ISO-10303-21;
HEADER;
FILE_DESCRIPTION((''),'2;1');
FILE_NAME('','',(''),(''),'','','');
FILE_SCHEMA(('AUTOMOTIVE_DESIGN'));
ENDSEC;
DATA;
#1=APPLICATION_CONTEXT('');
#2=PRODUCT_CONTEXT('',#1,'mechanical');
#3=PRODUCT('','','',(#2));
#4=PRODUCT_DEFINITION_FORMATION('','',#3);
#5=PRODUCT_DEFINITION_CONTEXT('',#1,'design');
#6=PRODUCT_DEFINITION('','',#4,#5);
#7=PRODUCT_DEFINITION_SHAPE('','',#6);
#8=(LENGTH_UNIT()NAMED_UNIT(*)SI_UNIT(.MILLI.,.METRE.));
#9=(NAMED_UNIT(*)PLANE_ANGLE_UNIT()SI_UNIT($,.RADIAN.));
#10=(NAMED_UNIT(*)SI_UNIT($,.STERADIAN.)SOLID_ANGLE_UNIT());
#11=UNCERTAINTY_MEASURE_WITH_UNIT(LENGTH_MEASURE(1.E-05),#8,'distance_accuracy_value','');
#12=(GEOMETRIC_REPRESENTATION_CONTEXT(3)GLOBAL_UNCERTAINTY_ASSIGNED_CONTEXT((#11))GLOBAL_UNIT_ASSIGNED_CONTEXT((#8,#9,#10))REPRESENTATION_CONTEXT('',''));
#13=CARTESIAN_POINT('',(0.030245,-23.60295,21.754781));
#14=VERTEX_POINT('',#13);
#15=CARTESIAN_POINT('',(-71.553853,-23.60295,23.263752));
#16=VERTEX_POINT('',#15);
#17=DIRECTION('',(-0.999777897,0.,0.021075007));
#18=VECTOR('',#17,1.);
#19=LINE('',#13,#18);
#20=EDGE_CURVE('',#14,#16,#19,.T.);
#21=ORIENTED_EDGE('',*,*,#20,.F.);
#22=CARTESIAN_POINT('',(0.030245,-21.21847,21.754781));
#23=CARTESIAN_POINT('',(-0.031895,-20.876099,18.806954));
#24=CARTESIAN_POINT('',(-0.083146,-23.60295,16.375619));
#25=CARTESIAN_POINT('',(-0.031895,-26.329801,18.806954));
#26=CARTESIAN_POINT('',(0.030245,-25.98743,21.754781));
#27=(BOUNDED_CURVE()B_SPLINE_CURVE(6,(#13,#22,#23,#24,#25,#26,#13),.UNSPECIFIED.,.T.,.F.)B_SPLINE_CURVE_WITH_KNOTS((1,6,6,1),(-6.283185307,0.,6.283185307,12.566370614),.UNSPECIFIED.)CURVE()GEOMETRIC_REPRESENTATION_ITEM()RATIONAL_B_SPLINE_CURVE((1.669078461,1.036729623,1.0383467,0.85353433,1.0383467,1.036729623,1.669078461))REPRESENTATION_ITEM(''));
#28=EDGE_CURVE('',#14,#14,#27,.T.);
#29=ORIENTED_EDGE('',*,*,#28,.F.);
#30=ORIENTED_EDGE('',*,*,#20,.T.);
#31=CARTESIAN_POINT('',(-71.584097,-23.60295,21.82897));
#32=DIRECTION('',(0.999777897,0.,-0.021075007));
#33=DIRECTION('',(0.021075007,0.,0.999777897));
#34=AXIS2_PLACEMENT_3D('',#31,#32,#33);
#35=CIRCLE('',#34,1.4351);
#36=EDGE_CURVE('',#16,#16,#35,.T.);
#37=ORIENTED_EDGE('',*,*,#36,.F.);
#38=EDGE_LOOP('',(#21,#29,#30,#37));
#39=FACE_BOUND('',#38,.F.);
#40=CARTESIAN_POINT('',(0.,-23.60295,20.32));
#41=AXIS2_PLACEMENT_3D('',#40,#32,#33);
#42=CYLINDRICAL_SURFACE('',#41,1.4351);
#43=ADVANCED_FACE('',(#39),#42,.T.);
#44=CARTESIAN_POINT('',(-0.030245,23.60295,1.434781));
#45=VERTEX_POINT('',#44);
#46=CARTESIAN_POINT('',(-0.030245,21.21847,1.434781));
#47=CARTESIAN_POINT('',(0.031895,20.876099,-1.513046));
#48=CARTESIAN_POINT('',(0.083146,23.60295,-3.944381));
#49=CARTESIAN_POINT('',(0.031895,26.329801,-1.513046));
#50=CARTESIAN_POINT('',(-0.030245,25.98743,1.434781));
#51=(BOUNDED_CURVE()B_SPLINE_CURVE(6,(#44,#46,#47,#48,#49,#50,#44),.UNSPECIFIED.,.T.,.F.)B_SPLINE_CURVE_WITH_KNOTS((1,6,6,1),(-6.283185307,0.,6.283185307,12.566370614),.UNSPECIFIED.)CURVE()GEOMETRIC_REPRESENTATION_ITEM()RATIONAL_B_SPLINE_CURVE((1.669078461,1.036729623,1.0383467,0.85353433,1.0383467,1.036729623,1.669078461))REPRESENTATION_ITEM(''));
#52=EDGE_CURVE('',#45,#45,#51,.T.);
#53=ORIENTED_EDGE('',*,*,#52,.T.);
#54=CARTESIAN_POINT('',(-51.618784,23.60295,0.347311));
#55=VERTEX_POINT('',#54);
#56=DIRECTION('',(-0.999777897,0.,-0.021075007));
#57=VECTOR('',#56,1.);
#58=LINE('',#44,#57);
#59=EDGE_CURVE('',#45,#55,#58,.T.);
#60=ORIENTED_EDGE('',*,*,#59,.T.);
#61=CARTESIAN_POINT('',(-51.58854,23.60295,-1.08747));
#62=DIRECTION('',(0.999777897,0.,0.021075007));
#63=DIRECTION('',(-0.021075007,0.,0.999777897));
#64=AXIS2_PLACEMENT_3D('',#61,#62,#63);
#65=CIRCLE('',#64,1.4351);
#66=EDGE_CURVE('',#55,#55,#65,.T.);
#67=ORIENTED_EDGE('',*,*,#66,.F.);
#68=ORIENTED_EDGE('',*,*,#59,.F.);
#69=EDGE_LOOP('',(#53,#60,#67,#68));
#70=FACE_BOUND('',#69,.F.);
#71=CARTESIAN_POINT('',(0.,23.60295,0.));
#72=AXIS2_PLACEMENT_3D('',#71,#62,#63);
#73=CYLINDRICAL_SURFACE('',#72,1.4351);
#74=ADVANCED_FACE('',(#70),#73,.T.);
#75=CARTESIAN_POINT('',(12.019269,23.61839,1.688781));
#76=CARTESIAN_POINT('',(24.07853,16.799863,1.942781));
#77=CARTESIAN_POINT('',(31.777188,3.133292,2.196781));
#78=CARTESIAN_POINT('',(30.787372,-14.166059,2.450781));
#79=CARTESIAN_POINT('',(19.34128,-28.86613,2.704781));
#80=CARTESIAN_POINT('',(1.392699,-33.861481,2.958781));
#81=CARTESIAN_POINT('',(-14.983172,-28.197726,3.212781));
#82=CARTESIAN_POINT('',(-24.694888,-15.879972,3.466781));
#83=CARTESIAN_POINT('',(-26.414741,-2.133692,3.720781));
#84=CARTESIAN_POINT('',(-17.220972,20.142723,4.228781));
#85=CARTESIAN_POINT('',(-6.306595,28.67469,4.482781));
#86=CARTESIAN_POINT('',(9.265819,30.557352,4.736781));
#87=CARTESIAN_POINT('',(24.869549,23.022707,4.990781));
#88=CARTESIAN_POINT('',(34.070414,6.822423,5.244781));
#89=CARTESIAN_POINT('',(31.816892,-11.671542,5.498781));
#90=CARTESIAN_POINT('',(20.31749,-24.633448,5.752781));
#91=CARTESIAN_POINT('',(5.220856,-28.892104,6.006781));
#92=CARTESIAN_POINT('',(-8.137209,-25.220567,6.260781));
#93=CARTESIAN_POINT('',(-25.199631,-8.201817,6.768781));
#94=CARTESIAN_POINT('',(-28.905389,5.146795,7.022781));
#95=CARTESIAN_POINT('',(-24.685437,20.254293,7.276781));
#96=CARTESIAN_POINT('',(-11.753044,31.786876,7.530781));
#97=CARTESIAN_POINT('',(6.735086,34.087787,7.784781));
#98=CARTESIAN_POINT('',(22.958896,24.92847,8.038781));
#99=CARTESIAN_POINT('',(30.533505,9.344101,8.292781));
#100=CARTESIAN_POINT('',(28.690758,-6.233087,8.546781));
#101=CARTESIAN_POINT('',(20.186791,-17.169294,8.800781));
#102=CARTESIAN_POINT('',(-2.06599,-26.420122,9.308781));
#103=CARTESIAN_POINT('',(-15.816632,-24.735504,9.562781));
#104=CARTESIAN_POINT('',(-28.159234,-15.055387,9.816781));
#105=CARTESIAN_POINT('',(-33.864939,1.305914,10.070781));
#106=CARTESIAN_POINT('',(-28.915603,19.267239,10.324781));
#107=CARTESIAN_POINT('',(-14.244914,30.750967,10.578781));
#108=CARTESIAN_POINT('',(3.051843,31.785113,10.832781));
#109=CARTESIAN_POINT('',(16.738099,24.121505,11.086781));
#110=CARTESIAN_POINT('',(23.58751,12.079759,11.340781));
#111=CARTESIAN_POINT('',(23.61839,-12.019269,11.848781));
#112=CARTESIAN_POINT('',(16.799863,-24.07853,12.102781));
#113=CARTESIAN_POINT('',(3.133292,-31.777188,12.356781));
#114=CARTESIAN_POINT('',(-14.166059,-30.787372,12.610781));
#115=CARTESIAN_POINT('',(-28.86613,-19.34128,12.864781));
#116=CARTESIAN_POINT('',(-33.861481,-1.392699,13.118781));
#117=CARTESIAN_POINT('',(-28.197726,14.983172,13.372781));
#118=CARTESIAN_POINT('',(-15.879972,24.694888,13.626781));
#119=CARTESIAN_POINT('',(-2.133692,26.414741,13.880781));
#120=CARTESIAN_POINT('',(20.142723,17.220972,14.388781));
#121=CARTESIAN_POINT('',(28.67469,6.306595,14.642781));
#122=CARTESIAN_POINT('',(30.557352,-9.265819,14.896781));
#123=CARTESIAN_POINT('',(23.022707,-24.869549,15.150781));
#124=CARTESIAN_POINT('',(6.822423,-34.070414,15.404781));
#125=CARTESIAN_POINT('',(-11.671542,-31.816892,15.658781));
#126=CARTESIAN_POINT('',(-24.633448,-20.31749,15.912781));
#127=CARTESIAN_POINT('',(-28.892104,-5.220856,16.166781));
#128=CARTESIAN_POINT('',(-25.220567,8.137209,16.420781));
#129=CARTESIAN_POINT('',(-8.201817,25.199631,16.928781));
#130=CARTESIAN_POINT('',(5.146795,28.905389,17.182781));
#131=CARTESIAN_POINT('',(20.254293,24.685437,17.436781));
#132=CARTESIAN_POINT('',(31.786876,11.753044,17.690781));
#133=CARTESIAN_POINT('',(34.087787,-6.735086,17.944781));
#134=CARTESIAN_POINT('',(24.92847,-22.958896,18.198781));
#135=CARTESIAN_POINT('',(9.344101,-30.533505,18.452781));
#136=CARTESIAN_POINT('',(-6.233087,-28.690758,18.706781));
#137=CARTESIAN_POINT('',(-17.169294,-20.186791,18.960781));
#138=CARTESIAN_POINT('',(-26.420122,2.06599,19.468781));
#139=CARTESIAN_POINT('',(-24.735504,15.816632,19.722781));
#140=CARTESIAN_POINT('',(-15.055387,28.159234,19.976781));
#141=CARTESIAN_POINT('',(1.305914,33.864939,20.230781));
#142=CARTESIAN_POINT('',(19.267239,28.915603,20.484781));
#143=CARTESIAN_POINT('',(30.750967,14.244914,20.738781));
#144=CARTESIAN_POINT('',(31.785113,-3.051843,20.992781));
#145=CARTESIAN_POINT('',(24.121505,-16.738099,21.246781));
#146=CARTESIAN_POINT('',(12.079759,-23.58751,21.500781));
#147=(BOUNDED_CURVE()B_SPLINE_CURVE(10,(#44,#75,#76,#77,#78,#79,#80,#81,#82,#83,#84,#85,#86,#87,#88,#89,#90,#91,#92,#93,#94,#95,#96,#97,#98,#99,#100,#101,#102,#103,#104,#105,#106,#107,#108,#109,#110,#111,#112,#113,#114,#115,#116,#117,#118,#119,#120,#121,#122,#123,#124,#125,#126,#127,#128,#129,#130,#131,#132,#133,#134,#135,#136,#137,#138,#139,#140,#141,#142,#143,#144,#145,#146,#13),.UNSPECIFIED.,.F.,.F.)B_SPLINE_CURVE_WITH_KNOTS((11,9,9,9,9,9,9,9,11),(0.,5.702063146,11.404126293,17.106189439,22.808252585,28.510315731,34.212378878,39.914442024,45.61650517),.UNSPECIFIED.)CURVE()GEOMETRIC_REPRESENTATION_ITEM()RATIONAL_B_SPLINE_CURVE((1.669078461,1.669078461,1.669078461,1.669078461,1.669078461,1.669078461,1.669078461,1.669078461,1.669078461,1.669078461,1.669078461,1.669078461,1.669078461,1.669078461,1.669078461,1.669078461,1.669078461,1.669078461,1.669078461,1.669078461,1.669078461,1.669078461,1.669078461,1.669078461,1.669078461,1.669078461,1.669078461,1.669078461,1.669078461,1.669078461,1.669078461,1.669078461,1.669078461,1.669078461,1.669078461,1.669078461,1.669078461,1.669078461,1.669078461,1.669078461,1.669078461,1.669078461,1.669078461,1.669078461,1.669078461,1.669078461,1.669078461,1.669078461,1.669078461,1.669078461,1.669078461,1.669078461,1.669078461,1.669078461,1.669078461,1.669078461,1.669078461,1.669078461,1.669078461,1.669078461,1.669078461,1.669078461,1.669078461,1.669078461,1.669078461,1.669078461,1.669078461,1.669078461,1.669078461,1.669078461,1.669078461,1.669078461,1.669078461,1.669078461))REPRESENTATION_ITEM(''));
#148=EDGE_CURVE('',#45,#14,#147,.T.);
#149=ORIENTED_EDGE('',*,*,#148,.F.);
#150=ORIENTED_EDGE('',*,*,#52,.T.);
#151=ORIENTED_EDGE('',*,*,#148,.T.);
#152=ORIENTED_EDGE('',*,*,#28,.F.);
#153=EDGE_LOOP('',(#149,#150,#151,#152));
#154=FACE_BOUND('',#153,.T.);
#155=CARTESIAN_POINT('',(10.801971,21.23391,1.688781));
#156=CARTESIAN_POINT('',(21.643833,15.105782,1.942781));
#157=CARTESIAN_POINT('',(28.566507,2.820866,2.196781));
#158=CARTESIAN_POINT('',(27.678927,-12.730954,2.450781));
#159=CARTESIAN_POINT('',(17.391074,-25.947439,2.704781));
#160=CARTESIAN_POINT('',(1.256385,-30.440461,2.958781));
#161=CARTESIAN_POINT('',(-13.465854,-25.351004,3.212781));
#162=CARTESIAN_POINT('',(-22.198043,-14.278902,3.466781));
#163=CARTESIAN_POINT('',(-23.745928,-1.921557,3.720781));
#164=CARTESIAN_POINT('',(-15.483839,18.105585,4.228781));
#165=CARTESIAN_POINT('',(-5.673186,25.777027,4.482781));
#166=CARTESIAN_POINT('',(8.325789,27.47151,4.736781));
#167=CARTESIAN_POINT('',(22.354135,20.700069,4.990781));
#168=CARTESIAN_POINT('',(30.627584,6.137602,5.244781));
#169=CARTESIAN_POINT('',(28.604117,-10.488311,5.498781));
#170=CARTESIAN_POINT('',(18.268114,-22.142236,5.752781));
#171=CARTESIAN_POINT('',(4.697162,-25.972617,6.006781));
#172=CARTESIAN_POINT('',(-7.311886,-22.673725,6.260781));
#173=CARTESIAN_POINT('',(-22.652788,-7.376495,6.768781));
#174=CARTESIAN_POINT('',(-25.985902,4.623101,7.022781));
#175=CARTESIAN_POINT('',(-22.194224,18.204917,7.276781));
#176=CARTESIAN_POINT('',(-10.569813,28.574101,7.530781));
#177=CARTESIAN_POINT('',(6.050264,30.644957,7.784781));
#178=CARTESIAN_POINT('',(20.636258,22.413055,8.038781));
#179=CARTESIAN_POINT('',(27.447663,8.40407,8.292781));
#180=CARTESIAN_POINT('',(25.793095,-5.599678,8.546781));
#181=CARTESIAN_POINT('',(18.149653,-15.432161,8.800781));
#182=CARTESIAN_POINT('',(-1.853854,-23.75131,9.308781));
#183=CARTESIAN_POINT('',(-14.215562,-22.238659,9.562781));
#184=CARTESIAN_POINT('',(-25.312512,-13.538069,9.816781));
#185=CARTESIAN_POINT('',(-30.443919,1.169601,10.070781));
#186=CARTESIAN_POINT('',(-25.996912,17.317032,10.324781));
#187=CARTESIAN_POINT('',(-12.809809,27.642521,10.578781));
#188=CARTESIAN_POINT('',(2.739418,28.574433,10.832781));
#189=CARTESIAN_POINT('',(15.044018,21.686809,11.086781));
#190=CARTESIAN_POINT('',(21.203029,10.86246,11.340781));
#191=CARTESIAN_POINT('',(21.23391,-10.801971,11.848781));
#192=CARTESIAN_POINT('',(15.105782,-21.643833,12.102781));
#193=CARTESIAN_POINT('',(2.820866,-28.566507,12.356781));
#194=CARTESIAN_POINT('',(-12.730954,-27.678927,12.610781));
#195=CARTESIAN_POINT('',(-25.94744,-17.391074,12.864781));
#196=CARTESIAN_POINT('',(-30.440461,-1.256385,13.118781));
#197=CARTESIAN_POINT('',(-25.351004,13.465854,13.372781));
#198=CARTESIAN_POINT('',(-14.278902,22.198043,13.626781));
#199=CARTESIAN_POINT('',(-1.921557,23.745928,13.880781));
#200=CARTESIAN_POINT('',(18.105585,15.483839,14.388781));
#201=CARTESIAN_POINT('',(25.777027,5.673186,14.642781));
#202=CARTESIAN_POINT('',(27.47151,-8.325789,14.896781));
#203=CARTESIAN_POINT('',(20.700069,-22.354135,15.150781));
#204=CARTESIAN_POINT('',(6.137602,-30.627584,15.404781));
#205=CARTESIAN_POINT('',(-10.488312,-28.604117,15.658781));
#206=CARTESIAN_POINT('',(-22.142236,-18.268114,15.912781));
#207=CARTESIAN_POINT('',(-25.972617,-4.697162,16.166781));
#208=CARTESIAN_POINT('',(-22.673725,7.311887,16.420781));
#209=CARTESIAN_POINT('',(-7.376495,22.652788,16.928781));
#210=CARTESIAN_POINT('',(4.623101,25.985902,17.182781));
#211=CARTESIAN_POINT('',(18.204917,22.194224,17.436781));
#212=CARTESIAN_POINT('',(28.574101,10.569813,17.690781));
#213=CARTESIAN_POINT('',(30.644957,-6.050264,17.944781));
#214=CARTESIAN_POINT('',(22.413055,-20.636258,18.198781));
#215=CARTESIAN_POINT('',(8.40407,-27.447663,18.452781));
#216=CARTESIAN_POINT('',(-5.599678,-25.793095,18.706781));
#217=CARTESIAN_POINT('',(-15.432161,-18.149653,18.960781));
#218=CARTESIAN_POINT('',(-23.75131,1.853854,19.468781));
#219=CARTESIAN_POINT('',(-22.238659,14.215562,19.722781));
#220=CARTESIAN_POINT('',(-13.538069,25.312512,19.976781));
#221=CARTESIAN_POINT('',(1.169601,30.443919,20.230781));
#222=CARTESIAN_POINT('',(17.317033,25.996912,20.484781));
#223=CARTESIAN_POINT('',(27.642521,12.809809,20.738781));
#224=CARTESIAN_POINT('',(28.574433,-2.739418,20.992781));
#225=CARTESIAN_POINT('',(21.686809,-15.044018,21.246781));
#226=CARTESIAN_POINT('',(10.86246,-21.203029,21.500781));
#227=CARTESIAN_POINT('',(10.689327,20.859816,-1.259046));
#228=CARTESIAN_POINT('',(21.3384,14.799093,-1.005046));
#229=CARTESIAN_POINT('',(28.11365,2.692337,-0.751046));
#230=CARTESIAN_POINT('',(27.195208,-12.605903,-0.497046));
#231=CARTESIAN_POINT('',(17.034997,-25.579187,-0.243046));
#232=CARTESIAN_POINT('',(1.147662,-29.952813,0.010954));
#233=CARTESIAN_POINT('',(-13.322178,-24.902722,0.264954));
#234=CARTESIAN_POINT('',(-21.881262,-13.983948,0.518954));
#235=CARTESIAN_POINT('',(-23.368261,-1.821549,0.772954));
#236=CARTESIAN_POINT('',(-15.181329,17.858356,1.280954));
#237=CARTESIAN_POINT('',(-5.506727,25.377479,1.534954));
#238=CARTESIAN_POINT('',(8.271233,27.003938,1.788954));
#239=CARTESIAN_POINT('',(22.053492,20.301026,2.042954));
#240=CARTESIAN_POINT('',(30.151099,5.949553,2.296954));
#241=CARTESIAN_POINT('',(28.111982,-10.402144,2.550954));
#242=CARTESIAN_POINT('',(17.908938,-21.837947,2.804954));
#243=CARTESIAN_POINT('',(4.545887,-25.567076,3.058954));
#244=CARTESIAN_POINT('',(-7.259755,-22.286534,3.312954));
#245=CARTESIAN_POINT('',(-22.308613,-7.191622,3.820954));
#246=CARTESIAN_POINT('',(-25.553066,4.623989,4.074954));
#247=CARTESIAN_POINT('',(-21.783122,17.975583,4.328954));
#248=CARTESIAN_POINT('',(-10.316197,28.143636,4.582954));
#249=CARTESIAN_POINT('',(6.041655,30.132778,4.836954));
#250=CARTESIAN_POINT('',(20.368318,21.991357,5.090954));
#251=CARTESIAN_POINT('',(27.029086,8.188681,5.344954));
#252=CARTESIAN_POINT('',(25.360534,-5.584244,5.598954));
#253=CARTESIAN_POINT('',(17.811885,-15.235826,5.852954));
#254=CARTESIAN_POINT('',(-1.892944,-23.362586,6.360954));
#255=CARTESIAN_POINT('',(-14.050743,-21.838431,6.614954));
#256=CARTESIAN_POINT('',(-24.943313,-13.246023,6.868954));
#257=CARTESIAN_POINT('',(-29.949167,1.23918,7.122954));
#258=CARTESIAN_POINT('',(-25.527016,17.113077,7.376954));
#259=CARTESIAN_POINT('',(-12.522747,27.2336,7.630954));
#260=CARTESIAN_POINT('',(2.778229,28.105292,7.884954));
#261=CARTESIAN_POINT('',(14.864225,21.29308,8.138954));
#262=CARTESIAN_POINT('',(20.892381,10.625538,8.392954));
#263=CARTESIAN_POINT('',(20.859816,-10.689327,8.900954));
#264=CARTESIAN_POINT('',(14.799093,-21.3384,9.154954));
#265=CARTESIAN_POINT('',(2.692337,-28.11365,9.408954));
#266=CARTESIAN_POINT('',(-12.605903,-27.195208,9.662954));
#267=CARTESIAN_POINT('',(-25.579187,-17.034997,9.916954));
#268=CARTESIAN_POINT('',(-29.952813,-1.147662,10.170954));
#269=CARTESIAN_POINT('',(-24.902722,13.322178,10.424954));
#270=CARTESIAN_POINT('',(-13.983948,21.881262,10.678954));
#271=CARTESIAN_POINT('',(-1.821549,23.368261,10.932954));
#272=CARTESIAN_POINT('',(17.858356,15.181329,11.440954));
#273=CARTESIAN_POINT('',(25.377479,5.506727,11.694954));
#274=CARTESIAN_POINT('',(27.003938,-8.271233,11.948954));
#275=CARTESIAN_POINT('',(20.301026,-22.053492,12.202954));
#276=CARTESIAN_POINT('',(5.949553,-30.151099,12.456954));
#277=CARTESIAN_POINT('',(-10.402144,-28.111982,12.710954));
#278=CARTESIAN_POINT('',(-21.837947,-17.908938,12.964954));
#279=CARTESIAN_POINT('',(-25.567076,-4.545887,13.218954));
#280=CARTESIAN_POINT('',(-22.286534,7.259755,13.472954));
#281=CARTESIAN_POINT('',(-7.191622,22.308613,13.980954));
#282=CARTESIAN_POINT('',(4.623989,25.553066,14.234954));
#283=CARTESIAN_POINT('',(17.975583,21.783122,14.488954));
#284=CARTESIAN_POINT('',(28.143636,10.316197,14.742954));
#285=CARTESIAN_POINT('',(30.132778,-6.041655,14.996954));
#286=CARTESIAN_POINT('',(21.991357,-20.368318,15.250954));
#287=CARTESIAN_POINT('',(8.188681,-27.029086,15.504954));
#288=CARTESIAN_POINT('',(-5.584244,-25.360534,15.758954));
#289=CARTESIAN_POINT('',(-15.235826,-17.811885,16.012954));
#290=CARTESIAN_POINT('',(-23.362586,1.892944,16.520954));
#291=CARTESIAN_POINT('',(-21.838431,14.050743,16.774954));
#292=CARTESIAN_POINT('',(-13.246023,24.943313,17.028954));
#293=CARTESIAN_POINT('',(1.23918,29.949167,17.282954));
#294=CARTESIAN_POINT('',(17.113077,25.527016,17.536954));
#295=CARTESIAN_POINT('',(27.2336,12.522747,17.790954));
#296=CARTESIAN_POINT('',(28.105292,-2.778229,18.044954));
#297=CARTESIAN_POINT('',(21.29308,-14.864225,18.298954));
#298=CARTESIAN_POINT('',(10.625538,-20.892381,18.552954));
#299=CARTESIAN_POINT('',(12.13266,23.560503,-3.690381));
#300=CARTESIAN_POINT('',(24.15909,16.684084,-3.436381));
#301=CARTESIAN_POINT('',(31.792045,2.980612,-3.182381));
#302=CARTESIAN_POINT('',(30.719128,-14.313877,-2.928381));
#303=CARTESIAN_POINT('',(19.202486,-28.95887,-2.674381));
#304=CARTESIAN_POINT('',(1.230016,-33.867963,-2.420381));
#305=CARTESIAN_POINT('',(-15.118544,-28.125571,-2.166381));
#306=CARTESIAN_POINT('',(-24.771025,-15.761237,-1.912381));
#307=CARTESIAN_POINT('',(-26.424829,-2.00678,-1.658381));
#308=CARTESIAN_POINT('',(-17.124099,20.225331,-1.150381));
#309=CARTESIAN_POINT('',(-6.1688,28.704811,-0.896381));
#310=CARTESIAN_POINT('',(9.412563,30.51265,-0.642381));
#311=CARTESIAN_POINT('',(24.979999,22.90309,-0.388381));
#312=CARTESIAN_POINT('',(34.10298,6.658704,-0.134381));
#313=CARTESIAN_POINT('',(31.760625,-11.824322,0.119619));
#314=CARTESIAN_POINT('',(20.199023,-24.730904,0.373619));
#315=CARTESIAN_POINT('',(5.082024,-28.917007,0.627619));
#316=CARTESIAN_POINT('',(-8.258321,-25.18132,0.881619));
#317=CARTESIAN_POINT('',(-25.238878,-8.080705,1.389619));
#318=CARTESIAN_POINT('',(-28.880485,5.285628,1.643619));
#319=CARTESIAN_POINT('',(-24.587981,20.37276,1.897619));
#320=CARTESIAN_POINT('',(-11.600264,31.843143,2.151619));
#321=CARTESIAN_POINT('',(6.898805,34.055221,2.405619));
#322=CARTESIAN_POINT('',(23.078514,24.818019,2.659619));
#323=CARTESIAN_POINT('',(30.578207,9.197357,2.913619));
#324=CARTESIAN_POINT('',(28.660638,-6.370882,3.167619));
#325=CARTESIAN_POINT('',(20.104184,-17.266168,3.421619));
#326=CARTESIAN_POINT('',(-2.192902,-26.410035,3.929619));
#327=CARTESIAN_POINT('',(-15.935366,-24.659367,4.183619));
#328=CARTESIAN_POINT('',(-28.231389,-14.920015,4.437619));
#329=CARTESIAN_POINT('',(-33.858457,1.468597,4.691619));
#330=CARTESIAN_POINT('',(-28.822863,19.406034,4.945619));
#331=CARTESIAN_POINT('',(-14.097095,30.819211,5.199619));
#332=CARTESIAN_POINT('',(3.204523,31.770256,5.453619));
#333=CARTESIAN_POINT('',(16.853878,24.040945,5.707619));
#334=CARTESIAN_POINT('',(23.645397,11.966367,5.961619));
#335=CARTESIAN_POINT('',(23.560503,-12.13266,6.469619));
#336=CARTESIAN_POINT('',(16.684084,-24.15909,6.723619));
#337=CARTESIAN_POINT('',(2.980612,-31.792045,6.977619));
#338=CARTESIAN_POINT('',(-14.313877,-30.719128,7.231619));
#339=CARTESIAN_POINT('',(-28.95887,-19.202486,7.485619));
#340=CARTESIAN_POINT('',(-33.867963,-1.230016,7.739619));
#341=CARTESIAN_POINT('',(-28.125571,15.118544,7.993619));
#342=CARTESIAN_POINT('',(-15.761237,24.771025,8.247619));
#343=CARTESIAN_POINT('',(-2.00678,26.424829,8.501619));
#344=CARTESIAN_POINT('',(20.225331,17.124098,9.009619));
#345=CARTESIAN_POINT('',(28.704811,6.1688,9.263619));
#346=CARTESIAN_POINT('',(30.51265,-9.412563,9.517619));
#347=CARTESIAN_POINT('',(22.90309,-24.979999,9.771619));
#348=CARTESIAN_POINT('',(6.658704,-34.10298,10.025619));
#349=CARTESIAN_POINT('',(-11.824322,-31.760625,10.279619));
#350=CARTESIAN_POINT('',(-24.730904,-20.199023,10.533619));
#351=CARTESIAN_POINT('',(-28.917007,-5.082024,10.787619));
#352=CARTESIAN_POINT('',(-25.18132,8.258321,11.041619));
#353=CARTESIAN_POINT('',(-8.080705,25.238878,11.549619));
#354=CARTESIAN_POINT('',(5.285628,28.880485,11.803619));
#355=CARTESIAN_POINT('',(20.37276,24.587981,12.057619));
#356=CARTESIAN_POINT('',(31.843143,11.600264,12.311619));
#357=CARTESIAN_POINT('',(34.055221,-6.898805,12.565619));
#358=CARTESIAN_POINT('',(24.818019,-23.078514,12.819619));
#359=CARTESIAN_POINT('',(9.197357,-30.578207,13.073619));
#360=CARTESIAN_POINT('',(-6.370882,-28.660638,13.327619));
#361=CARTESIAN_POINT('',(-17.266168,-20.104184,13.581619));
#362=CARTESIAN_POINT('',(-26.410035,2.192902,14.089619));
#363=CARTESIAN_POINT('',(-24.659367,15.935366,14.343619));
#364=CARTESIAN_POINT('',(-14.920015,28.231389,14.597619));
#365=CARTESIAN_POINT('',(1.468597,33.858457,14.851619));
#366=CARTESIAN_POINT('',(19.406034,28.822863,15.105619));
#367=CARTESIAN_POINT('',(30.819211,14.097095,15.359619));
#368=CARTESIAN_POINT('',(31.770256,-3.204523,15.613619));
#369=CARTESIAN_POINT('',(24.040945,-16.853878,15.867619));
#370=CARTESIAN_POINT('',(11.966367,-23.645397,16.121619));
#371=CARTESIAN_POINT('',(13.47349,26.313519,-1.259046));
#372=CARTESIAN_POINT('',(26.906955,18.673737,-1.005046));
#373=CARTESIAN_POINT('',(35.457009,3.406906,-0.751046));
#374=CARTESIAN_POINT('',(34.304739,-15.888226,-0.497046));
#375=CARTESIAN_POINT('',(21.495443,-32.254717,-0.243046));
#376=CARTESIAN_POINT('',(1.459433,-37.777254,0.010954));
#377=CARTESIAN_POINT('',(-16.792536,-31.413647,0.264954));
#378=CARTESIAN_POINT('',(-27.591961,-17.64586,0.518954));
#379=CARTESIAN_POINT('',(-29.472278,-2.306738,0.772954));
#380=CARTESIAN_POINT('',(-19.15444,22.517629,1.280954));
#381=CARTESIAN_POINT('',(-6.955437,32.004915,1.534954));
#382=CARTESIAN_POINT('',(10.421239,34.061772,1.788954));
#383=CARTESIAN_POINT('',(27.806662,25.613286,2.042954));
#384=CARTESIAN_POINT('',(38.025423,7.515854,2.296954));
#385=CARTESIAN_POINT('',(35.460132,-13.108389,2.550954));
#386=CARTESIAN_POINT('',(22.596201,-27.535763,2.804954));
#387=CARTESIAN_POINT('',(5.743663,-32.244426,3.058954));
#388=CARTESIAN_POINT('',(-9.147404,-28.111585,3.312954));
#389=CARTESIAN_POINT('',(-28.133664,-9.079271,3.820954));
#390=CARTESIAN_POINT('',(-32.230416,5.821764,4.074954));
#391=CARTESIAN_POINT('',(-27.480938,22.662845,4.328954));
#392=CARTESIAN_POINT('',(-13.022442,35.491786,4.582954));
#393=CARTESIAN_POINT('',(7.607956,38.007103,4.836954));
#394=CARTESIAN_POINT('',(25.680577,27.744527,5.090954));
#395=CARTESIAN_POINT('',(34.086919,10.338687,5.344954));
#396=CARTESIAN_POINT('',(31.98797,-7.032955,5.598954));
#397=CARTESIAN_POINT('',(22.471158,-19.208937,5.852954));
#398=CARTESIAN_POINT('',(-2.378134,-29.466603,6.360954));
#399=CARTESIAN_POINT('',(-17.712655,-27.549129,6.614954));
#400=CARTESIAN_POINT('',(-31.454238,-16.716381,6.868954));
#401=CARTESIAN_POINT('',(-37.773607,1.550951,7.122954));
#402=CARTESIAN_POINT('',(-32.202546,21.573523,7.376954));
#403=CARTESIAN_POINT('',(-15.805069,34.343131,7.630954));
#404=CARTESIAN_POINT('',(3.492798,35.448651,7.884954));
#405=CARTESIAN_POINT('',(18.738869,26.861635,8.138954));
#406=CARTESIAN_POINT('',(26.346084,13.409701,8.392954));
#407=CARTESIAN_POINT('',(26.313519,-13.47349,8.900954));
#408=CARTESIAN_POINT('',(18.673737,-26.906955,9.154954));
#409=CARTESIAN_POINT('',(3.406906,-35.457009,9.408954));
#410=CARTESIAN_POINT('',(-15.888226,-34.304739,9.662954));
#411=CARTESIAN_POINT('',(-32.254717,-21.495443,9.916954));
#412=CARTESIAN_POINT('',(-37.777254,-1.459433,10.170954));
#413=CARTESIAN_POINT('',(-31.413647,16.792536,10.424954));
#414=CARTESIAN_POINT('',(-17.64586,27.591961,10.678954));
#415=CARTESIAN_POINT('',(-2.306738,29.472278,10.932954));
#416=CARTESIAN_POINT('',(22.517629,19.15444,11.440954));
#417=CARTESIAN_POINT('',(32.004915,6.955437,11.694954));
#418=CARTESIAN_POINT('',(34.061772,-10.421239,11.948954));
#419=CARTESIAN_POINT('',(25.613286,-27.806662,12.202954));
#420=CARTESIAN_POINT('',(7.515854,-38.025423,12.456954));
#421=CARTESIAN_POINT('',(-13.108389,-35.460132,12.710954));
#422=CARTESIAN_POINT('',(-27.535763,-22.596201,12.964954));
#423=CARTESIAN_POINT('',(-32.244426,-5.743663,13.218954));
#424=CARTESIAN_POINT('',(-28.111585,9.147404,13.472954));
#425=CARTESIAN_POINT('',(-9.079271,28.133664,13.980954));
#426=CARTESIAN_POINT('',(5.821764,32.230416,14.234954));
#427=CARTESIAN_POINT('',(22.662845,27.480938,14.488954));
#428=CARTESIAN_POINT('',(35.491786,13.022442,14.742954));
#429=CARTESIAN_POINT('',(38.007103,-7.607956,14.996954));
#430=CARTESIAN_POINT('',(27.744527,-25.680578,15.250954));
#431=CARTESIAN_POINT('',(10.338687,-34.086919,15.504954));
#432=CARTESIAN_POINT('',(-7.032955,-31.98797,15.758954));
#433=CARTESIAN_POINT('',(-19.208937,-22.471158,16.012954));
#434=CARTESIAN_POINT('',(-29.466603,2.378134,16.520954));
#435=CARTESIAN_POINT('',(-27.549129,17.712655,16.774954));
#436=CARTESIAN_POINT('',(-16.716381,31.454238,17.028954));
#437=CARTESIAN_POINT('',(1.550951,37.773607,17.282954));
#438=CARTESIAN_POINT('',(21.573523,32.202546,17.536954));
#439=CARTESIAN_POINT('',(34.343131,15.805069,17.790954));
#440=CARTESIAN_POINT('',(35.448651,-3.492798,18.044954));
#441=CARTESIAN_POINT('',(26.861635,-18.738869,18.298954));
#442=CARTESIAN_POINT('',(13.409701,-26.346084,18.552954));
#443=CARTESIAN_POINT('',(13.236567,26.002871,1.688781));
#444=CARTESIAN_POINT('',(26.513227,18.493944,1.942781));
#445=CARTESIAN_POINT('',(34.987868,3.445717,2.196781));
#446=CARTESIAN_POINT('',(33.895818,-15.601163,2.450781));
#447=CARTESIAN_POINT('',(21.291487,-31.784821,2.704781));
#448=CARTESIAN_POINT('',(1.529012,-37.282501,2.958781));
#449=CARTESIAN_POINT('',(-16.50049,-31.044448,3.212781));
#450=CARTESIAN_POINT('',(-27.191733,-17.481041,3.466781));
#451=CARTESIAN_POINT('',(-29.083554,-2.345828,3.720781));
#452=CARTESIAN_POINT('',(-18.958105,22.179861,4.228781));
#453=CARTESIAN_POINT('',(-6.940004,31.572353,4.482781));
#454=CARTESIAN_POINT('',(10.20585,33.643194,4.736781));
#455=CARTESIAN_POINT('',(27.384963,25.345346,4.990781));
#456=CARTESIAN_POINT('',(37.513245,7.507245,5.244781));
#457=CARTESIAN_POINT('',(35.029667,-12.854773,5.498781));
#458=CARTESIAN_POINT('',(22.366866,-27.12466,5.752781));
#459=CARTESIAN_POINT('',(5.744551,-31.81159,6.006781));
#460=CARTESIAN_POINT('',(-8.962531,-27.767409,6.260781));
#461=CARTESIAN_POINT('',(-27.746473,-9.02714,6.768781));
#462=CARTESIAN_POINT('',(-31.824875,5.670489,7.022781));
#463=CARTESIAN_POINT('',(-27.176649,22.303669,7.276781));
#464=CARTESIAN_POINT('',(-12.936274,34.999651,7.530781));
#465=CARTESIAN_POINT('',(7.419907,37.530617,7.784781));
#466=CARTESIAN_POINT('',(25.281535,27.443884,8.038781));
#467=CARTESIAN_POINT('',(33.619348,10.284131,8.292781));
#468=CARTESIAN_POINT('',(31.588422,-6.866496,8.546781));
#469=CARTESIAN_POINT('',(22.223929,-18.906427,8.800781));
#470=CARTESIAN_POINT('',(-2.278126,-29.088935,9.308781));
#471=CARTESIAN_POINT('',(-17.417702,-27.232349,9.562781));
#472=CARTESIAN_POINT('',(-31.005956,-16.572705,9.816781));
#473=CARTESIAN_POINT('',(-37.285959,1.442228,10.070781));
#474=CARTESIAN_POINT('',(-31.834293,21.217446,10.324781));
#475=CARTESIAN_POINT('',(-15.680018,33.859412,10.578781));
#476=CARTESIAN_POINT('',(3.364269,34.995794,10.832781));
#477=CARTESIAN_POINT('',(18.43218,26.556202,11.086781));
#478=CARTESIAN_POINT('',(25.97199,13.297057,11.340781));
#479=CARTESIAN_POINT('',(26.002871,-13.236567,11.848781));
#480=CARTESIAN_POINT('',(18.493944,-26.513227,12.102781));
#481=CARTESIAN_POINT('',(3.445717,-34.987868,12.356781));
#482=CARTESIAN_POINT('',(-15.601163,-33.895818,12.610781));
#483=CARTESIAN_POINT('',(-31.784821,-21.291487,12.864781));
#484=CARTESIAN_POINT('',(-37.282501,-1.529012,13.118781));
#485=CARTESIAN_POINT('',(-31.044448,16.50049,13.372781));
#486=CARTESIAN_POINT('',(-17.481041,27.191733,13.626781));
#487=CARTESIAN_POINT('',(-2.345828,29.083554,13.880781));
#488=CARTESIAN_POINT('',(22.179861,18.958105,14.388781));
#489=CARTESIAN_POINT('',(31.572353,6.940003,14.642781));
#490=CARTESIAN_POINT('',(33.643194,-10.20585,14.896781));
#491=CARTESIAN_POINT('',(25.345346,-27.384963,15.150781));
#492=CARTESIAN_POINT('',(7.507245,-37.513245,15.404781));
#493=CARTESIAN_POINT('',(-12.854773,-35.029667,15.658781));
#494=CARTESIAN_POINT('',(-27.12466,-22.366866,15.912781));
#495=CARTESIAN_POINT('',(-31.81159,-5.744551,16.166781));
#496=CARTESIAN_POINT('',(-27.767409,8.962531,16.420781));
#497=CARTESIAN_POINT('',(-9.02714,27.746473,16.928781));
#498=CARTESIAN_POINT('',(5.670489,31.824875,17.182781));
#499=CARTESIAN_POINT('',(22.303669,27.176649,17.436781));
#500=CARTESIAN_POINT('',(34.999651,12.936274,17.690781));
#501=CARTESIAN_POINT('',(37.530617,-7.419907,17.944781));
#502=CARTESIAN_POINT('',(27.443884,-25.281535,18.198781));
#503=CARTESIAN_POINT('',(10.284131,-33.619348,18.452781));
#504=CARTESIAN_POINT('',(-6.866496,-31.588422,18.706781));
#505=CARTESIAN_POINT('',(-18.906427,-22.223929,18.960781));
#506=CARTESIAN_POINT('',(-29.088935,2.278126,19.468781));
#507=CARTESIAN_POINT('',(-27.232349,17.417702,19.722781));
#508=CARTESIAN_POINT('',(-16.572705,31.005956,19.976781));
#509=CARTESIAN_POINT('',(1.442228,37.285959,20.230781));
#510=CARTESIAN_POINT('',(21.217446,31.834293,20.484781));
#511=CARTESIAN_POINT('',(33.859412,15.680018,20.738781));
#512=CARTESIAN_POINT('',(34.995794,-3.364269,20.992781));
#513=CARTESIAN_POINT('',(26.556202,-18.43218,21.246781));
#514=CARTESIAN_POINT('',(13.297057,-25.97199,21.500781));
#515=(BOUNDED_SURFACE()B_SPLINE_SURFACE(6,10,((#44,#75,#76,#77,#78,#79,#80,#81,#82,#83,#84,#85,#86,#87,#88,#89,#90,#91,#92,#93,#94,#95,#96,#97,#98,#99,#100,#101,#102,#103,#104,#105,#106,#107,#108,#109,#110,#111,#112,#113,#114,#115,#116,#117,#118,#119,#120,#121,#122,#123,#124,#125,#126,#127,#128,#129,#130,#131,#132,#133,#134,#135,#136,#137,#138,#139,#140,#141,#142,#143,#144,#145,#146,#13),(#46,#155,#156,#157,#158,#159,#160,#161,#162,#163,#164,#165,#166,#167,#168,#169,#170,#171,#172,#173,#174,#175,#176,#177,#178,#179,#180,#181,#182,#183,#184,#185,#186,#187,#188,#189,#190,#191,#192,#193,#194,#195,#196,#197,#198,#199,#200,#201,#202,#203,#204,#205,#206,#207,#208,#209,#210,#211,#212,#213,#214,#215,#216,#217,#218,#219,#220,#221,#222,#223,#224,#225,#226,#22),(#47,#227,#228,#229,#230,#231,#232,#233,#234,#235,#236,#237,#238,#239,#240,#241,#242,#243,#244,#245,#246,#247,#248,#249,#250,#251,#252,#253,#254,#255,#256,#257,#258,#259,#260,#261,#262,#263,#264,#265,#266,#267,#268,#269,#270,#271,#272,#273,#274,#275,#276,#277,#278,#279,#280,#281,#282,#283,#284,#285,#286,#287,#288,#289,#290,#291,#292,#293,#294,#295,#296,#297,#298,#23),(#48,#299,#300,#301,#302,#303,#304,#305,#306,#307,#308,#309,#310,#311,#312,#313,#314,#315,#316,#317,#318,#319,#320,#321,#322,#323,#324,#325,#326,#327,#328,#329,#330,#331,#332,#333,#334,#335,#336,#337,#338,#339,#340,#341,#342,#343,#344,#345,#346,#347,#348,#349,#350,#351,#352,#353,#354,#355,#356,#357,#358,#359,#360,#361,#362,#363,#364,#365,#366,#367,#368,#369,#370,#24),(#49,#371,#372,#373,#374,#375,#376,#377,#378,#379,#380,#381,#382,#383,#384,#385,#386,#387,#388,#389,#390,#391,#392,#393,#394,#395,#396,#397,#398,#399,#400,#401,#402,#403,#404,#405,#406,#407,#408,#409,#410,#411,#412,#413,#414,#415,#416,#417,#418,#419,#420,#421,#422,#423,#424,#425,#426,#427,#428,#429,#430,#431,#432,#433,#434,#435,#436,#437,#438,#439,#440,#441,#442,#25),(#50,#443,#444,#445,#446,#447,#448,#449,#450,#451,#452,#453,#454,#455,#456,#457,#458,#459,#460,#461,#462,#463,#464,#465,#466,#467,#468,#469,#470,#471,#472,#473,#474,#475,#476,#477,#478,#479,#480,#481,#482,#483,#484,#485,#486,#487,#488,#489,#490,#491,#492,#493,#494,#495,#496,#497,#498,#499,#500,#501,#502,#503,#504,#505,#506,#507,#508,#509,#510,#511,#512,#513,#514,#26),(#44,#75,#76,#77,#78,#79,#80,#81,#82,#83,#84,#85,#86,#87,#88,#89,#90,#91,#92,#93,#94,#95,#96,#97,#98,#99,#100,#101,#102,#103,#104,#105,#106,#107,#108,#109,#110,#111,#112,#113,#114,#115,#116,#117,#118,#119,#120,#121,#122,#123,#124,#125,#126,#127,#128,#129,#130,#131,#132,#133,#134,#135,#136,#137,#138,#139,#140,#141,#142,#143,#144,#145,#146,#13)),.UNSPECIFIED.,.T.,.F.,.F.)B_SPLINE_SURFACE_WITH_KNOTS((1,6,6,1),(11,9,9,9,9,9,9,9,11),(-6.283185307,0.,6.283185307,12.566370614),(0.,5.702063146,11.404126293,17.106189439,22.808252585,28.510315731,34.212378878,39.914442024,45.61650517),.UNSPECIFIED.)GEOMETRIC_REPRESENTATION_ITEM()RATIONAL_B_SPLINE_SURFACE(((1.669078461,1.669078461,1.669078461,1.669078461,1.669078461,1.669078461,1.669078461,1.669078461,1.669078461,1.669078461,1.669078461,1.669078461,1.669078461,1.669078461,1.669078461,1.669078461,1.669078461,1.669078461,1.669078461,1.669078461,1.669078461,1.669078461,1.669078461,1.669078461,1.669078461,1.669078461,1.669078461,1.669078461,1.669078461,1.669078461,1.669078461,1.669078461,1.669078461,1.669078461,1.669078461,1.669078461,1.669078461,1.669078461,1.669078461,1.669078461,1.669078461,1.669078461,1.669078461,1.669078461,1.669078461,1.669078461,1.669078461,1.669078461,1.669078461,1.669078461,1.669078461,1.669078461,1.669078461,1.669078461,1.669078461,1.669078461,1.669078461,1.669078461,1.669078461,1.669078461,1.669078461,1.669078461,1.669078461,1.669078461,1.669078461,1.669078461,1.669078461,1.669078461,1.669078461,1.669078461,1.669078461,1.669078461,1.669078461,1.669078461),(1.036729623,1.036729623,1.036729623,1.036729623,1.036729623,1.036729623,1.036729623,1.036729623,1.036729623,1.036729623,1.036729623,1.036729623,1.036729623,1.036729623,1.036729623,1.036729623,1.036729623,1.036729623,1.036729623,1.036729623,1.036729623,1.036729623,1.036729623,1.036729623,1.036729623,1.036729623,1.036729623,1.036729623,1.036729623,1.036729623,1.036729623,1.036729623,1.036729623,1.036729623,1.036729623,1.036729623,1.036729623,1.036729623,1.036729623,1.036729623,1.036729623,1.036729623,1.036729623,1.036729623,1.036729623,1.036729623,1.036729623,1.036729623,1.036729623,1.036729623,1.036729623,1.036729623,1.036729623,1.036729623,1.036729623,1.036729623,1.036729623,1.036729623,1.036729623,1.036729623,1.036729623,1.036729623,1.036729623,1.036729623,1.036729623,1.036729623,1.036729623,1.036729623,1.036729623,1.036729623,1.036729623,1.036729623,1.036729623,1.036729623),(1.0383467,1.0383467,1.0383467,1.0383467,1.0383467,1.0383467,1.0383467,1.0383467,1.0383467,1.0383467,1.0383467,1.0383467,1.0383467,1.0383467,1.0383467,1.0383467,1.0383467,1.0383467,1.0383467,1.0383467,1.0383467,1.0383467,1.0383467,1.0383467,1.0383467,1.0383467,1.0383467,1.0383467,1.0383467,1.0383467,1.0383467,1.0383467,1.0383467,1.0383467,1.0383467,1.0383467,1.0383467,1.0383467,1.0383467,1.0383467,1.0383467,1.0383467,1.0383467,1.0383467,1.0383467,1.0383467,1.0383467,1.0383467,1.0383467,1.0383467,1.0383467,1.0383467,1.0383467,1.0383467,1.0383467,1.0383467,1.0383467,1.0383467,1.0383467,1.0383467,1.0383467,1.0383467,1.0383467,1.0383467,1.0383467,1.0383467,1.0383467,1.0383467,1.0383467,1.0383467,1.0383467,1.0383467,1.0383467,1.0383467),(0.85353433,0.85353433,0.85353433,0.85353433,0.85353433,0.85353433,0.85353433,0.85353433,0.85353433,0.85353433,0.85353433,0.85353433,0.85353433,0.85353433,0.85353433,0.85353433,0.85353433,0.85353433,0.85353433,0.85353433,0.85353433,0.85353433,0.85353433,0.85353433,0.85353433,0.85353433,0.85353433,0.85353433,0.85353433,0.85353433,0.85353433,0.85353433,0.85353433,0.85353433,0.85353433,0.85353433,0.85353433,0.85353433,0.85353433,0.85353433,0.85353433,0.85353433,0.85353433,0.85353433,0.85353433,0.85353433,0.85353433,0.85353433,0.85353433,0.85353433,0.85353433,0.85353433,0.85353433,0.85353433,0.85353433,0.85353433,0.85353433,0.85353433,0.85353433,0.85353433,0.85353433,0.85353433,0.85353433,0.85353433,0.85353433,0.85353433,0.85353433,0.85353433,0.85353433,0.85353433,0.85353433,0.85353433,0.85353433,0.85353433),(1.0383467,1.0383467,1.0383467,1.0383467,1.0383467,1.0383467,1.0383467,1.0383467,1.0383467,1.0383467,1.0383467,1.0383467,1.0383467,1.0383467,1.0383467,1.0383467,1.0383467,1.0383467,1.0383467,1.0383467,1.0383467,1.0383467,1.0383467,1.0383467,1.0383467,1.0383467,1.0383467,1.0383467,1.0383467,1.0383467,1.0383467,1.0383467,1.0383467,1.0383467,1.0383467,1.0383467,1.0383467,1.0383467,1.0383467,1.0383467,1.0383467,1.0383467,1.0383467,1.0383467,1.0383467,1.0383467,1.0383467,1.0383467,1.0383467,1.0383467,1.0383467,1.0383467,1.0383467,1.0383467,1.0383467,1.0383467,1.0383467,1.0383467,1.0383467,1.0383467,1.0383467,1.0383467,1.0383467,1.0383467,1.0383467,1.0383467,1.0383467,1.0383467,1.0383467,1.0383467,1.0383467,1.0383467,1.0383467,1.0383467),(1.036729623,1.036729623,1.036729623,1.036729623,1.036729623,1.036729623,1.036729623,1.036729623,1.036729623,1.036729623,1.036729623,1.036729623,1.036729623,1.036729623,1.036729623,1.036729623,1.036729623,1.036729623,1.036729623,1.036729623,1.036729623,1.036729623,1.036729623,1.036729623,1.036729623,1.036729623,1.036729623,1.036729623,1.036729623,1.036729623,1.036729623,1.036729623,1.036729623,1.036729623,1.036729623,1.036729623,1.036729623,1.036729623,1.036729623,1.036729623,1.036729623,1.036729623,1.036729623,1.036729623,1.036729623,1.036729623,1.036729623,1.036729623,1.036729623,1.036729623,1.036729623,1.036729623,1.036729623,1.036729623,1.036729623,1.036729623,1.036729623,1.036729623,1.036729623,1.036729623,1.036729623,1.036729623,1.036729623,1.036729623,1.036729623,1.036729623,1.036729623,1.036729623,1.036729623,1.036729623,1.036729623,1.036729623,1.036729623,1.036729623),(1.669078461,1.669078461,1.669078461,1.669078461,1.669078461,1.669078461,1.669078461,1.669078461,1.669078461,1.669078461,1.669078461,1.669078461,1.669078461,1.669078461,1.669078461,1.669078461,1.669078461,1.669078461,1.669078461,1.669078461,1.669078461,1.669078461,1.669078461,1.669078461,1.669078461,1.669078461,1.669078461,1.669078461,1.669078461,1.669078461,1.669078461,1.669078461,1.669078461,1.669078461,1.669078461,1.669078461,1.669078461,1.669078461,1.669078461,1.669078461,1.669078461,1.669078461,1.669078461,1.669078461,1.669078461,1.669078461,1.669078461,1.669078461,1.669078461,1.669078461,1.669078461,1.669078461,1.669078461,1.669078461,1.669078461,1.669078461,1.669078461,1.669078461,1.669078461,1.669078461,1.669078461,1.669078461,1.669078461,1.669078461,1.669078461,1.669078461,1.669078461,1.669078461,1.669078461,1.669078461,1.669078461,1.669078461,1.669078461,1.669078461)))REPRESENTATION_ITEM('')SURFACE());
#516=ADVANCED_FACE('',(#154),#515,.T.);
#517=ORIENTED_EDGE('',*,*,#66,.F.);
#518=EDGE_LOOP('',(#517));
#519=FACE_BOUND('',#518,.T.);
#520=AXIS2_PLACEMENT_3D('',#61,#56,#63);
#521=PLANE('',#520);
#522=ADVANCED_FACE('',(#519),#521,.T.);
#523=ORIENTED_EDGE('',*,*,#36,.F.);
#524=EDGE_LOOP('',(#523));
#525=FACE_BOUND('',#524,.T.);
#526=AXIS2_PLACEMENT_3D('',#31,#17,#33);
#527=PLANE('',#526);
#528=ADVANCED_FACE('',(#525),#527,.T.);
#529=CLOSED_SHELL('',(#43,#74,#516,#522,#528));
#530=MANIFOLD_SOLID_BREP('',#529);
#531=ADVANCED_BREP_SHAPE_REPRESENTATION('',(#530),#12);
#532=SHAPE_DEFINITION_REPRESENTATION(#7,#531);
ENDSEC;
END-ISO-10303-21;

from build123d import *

# Parameters (mm, degrees)
SWEEP1_PITCH        = 3.126153846
SWEEP1_HEIGHT       = 20.32
SWEEP1_RADIUS       = 23.60295
SWEEP1_START_ANGLE  = 90
SKETCH2_R           = 1.4351
SKETCH3_R           = 1.4351
BOSS_EXTRUDE1_DEPTH = 101.6
SKETCH4_R           = 1.4351
BOSS_EXTRUDE2_DEPTH = 101.6
SKETCH5_R           = 5.71457576
CUT_EXTRUDE1_DEPTH  = 50
SKETCH6_R           = 6.6278677
CUT_EXTRUDE2_DEPTH  = 30


with BuildPart() as part:
    # Sweep1: sweep along a helix
    with BuildLine() as sweep1_path:
        add(Helix(SWEEP1_PITCH, SWEEP1_HEIGHT, SWEEP1_RADIUS, center=(0, 0, 0), direction=(0, 0, 1), lefthand=True, mode=Mode.PRIVATE).rotate(Axis((0, 0, 0), (0, 0, 1)), SWEEP1_START_ANGLE))
    # Sketch2 → Sweep1 (sweep)
    with BuildSketch(Plane(origin=(0, -23.60295, 20.32), x_dir=(0.02107500680690213, -2.8515923258819254e-15, 0.9997778973792575), z_dir=(-0.9997778973792575, 8.282579636549554e-14, 0.02107500680690213))):
        Circle(SKETCH2_R)
    sweep(path=sweep1_path.line, is_frenet=True)

    # Sketch3 → Boss-Extrude1 (add)
    with BuildSketch(Plane(origin=(0, 0, 0), x_dir=(-0.021075006806902132, 0, 0.9997778973792575), z_dir=(-0.9997778973792575, -4.380828031761045e-15, -0.021075006806902132))):
        with Locations((0, 23.60295)):
            Circle(SKETCH3_R)
    extrude(amount=BOSS_EXTRUDE1_DEPTH)

    # Sketch4 → Boss-Extrude2 (add)
    with BuildSketch(Plane(origin=(-0.428149024, 0, 0.009025248), x_dir=(0.021075006806902146, 7.590996781535367e-15, 0.9997778973792575), z_dir=(-0.9997778973792575, -4.488057786738959e-15, 0.021075006806902146))):
        with Locations((20.315486875, -23.60295)):
            Circle(SKETCH4_R)
    extrude(amount=BOSS_EXTRUDE2_DEPTH)

    # Sketch5 → Cut-Extrude1 (cut)
    with BuildSketch(Plane(origin=(-101.577434374, 0, -2.141220692), x_dir=(-0.021075006806902132, 0, 0.9997778973792575), z_dir=(-0.9997778973792575, -4.3808280317610446e-15, -0.021075006806902132))):
        with Locations((0, 23.60295)):
            Circle(SKETCH5_R)
    extrude(amount=-CUT_EXTRUDE1_DEPTH, mode=Mode.SUBTRACT)

    # Sketch6 → Cut-Extrude2 (cut)
    with BuildSketch(Plane(origin=(-102.005583398, 0, 2.15024594), x_dir=(0.02107500680690215, 0, 0.9997778973792576), z_dir=(-0.9997778973792576, -4.488057786738958e-15, 0.02107500680690215))):
        with Locations((20.315486875, -23.60295)):
            Circle(SKETCH6_R)
    extrude(amount=-CUT_EXTRUDE2_DEPTH, mode=Mode.SUBTRACT)


solid = part.part
